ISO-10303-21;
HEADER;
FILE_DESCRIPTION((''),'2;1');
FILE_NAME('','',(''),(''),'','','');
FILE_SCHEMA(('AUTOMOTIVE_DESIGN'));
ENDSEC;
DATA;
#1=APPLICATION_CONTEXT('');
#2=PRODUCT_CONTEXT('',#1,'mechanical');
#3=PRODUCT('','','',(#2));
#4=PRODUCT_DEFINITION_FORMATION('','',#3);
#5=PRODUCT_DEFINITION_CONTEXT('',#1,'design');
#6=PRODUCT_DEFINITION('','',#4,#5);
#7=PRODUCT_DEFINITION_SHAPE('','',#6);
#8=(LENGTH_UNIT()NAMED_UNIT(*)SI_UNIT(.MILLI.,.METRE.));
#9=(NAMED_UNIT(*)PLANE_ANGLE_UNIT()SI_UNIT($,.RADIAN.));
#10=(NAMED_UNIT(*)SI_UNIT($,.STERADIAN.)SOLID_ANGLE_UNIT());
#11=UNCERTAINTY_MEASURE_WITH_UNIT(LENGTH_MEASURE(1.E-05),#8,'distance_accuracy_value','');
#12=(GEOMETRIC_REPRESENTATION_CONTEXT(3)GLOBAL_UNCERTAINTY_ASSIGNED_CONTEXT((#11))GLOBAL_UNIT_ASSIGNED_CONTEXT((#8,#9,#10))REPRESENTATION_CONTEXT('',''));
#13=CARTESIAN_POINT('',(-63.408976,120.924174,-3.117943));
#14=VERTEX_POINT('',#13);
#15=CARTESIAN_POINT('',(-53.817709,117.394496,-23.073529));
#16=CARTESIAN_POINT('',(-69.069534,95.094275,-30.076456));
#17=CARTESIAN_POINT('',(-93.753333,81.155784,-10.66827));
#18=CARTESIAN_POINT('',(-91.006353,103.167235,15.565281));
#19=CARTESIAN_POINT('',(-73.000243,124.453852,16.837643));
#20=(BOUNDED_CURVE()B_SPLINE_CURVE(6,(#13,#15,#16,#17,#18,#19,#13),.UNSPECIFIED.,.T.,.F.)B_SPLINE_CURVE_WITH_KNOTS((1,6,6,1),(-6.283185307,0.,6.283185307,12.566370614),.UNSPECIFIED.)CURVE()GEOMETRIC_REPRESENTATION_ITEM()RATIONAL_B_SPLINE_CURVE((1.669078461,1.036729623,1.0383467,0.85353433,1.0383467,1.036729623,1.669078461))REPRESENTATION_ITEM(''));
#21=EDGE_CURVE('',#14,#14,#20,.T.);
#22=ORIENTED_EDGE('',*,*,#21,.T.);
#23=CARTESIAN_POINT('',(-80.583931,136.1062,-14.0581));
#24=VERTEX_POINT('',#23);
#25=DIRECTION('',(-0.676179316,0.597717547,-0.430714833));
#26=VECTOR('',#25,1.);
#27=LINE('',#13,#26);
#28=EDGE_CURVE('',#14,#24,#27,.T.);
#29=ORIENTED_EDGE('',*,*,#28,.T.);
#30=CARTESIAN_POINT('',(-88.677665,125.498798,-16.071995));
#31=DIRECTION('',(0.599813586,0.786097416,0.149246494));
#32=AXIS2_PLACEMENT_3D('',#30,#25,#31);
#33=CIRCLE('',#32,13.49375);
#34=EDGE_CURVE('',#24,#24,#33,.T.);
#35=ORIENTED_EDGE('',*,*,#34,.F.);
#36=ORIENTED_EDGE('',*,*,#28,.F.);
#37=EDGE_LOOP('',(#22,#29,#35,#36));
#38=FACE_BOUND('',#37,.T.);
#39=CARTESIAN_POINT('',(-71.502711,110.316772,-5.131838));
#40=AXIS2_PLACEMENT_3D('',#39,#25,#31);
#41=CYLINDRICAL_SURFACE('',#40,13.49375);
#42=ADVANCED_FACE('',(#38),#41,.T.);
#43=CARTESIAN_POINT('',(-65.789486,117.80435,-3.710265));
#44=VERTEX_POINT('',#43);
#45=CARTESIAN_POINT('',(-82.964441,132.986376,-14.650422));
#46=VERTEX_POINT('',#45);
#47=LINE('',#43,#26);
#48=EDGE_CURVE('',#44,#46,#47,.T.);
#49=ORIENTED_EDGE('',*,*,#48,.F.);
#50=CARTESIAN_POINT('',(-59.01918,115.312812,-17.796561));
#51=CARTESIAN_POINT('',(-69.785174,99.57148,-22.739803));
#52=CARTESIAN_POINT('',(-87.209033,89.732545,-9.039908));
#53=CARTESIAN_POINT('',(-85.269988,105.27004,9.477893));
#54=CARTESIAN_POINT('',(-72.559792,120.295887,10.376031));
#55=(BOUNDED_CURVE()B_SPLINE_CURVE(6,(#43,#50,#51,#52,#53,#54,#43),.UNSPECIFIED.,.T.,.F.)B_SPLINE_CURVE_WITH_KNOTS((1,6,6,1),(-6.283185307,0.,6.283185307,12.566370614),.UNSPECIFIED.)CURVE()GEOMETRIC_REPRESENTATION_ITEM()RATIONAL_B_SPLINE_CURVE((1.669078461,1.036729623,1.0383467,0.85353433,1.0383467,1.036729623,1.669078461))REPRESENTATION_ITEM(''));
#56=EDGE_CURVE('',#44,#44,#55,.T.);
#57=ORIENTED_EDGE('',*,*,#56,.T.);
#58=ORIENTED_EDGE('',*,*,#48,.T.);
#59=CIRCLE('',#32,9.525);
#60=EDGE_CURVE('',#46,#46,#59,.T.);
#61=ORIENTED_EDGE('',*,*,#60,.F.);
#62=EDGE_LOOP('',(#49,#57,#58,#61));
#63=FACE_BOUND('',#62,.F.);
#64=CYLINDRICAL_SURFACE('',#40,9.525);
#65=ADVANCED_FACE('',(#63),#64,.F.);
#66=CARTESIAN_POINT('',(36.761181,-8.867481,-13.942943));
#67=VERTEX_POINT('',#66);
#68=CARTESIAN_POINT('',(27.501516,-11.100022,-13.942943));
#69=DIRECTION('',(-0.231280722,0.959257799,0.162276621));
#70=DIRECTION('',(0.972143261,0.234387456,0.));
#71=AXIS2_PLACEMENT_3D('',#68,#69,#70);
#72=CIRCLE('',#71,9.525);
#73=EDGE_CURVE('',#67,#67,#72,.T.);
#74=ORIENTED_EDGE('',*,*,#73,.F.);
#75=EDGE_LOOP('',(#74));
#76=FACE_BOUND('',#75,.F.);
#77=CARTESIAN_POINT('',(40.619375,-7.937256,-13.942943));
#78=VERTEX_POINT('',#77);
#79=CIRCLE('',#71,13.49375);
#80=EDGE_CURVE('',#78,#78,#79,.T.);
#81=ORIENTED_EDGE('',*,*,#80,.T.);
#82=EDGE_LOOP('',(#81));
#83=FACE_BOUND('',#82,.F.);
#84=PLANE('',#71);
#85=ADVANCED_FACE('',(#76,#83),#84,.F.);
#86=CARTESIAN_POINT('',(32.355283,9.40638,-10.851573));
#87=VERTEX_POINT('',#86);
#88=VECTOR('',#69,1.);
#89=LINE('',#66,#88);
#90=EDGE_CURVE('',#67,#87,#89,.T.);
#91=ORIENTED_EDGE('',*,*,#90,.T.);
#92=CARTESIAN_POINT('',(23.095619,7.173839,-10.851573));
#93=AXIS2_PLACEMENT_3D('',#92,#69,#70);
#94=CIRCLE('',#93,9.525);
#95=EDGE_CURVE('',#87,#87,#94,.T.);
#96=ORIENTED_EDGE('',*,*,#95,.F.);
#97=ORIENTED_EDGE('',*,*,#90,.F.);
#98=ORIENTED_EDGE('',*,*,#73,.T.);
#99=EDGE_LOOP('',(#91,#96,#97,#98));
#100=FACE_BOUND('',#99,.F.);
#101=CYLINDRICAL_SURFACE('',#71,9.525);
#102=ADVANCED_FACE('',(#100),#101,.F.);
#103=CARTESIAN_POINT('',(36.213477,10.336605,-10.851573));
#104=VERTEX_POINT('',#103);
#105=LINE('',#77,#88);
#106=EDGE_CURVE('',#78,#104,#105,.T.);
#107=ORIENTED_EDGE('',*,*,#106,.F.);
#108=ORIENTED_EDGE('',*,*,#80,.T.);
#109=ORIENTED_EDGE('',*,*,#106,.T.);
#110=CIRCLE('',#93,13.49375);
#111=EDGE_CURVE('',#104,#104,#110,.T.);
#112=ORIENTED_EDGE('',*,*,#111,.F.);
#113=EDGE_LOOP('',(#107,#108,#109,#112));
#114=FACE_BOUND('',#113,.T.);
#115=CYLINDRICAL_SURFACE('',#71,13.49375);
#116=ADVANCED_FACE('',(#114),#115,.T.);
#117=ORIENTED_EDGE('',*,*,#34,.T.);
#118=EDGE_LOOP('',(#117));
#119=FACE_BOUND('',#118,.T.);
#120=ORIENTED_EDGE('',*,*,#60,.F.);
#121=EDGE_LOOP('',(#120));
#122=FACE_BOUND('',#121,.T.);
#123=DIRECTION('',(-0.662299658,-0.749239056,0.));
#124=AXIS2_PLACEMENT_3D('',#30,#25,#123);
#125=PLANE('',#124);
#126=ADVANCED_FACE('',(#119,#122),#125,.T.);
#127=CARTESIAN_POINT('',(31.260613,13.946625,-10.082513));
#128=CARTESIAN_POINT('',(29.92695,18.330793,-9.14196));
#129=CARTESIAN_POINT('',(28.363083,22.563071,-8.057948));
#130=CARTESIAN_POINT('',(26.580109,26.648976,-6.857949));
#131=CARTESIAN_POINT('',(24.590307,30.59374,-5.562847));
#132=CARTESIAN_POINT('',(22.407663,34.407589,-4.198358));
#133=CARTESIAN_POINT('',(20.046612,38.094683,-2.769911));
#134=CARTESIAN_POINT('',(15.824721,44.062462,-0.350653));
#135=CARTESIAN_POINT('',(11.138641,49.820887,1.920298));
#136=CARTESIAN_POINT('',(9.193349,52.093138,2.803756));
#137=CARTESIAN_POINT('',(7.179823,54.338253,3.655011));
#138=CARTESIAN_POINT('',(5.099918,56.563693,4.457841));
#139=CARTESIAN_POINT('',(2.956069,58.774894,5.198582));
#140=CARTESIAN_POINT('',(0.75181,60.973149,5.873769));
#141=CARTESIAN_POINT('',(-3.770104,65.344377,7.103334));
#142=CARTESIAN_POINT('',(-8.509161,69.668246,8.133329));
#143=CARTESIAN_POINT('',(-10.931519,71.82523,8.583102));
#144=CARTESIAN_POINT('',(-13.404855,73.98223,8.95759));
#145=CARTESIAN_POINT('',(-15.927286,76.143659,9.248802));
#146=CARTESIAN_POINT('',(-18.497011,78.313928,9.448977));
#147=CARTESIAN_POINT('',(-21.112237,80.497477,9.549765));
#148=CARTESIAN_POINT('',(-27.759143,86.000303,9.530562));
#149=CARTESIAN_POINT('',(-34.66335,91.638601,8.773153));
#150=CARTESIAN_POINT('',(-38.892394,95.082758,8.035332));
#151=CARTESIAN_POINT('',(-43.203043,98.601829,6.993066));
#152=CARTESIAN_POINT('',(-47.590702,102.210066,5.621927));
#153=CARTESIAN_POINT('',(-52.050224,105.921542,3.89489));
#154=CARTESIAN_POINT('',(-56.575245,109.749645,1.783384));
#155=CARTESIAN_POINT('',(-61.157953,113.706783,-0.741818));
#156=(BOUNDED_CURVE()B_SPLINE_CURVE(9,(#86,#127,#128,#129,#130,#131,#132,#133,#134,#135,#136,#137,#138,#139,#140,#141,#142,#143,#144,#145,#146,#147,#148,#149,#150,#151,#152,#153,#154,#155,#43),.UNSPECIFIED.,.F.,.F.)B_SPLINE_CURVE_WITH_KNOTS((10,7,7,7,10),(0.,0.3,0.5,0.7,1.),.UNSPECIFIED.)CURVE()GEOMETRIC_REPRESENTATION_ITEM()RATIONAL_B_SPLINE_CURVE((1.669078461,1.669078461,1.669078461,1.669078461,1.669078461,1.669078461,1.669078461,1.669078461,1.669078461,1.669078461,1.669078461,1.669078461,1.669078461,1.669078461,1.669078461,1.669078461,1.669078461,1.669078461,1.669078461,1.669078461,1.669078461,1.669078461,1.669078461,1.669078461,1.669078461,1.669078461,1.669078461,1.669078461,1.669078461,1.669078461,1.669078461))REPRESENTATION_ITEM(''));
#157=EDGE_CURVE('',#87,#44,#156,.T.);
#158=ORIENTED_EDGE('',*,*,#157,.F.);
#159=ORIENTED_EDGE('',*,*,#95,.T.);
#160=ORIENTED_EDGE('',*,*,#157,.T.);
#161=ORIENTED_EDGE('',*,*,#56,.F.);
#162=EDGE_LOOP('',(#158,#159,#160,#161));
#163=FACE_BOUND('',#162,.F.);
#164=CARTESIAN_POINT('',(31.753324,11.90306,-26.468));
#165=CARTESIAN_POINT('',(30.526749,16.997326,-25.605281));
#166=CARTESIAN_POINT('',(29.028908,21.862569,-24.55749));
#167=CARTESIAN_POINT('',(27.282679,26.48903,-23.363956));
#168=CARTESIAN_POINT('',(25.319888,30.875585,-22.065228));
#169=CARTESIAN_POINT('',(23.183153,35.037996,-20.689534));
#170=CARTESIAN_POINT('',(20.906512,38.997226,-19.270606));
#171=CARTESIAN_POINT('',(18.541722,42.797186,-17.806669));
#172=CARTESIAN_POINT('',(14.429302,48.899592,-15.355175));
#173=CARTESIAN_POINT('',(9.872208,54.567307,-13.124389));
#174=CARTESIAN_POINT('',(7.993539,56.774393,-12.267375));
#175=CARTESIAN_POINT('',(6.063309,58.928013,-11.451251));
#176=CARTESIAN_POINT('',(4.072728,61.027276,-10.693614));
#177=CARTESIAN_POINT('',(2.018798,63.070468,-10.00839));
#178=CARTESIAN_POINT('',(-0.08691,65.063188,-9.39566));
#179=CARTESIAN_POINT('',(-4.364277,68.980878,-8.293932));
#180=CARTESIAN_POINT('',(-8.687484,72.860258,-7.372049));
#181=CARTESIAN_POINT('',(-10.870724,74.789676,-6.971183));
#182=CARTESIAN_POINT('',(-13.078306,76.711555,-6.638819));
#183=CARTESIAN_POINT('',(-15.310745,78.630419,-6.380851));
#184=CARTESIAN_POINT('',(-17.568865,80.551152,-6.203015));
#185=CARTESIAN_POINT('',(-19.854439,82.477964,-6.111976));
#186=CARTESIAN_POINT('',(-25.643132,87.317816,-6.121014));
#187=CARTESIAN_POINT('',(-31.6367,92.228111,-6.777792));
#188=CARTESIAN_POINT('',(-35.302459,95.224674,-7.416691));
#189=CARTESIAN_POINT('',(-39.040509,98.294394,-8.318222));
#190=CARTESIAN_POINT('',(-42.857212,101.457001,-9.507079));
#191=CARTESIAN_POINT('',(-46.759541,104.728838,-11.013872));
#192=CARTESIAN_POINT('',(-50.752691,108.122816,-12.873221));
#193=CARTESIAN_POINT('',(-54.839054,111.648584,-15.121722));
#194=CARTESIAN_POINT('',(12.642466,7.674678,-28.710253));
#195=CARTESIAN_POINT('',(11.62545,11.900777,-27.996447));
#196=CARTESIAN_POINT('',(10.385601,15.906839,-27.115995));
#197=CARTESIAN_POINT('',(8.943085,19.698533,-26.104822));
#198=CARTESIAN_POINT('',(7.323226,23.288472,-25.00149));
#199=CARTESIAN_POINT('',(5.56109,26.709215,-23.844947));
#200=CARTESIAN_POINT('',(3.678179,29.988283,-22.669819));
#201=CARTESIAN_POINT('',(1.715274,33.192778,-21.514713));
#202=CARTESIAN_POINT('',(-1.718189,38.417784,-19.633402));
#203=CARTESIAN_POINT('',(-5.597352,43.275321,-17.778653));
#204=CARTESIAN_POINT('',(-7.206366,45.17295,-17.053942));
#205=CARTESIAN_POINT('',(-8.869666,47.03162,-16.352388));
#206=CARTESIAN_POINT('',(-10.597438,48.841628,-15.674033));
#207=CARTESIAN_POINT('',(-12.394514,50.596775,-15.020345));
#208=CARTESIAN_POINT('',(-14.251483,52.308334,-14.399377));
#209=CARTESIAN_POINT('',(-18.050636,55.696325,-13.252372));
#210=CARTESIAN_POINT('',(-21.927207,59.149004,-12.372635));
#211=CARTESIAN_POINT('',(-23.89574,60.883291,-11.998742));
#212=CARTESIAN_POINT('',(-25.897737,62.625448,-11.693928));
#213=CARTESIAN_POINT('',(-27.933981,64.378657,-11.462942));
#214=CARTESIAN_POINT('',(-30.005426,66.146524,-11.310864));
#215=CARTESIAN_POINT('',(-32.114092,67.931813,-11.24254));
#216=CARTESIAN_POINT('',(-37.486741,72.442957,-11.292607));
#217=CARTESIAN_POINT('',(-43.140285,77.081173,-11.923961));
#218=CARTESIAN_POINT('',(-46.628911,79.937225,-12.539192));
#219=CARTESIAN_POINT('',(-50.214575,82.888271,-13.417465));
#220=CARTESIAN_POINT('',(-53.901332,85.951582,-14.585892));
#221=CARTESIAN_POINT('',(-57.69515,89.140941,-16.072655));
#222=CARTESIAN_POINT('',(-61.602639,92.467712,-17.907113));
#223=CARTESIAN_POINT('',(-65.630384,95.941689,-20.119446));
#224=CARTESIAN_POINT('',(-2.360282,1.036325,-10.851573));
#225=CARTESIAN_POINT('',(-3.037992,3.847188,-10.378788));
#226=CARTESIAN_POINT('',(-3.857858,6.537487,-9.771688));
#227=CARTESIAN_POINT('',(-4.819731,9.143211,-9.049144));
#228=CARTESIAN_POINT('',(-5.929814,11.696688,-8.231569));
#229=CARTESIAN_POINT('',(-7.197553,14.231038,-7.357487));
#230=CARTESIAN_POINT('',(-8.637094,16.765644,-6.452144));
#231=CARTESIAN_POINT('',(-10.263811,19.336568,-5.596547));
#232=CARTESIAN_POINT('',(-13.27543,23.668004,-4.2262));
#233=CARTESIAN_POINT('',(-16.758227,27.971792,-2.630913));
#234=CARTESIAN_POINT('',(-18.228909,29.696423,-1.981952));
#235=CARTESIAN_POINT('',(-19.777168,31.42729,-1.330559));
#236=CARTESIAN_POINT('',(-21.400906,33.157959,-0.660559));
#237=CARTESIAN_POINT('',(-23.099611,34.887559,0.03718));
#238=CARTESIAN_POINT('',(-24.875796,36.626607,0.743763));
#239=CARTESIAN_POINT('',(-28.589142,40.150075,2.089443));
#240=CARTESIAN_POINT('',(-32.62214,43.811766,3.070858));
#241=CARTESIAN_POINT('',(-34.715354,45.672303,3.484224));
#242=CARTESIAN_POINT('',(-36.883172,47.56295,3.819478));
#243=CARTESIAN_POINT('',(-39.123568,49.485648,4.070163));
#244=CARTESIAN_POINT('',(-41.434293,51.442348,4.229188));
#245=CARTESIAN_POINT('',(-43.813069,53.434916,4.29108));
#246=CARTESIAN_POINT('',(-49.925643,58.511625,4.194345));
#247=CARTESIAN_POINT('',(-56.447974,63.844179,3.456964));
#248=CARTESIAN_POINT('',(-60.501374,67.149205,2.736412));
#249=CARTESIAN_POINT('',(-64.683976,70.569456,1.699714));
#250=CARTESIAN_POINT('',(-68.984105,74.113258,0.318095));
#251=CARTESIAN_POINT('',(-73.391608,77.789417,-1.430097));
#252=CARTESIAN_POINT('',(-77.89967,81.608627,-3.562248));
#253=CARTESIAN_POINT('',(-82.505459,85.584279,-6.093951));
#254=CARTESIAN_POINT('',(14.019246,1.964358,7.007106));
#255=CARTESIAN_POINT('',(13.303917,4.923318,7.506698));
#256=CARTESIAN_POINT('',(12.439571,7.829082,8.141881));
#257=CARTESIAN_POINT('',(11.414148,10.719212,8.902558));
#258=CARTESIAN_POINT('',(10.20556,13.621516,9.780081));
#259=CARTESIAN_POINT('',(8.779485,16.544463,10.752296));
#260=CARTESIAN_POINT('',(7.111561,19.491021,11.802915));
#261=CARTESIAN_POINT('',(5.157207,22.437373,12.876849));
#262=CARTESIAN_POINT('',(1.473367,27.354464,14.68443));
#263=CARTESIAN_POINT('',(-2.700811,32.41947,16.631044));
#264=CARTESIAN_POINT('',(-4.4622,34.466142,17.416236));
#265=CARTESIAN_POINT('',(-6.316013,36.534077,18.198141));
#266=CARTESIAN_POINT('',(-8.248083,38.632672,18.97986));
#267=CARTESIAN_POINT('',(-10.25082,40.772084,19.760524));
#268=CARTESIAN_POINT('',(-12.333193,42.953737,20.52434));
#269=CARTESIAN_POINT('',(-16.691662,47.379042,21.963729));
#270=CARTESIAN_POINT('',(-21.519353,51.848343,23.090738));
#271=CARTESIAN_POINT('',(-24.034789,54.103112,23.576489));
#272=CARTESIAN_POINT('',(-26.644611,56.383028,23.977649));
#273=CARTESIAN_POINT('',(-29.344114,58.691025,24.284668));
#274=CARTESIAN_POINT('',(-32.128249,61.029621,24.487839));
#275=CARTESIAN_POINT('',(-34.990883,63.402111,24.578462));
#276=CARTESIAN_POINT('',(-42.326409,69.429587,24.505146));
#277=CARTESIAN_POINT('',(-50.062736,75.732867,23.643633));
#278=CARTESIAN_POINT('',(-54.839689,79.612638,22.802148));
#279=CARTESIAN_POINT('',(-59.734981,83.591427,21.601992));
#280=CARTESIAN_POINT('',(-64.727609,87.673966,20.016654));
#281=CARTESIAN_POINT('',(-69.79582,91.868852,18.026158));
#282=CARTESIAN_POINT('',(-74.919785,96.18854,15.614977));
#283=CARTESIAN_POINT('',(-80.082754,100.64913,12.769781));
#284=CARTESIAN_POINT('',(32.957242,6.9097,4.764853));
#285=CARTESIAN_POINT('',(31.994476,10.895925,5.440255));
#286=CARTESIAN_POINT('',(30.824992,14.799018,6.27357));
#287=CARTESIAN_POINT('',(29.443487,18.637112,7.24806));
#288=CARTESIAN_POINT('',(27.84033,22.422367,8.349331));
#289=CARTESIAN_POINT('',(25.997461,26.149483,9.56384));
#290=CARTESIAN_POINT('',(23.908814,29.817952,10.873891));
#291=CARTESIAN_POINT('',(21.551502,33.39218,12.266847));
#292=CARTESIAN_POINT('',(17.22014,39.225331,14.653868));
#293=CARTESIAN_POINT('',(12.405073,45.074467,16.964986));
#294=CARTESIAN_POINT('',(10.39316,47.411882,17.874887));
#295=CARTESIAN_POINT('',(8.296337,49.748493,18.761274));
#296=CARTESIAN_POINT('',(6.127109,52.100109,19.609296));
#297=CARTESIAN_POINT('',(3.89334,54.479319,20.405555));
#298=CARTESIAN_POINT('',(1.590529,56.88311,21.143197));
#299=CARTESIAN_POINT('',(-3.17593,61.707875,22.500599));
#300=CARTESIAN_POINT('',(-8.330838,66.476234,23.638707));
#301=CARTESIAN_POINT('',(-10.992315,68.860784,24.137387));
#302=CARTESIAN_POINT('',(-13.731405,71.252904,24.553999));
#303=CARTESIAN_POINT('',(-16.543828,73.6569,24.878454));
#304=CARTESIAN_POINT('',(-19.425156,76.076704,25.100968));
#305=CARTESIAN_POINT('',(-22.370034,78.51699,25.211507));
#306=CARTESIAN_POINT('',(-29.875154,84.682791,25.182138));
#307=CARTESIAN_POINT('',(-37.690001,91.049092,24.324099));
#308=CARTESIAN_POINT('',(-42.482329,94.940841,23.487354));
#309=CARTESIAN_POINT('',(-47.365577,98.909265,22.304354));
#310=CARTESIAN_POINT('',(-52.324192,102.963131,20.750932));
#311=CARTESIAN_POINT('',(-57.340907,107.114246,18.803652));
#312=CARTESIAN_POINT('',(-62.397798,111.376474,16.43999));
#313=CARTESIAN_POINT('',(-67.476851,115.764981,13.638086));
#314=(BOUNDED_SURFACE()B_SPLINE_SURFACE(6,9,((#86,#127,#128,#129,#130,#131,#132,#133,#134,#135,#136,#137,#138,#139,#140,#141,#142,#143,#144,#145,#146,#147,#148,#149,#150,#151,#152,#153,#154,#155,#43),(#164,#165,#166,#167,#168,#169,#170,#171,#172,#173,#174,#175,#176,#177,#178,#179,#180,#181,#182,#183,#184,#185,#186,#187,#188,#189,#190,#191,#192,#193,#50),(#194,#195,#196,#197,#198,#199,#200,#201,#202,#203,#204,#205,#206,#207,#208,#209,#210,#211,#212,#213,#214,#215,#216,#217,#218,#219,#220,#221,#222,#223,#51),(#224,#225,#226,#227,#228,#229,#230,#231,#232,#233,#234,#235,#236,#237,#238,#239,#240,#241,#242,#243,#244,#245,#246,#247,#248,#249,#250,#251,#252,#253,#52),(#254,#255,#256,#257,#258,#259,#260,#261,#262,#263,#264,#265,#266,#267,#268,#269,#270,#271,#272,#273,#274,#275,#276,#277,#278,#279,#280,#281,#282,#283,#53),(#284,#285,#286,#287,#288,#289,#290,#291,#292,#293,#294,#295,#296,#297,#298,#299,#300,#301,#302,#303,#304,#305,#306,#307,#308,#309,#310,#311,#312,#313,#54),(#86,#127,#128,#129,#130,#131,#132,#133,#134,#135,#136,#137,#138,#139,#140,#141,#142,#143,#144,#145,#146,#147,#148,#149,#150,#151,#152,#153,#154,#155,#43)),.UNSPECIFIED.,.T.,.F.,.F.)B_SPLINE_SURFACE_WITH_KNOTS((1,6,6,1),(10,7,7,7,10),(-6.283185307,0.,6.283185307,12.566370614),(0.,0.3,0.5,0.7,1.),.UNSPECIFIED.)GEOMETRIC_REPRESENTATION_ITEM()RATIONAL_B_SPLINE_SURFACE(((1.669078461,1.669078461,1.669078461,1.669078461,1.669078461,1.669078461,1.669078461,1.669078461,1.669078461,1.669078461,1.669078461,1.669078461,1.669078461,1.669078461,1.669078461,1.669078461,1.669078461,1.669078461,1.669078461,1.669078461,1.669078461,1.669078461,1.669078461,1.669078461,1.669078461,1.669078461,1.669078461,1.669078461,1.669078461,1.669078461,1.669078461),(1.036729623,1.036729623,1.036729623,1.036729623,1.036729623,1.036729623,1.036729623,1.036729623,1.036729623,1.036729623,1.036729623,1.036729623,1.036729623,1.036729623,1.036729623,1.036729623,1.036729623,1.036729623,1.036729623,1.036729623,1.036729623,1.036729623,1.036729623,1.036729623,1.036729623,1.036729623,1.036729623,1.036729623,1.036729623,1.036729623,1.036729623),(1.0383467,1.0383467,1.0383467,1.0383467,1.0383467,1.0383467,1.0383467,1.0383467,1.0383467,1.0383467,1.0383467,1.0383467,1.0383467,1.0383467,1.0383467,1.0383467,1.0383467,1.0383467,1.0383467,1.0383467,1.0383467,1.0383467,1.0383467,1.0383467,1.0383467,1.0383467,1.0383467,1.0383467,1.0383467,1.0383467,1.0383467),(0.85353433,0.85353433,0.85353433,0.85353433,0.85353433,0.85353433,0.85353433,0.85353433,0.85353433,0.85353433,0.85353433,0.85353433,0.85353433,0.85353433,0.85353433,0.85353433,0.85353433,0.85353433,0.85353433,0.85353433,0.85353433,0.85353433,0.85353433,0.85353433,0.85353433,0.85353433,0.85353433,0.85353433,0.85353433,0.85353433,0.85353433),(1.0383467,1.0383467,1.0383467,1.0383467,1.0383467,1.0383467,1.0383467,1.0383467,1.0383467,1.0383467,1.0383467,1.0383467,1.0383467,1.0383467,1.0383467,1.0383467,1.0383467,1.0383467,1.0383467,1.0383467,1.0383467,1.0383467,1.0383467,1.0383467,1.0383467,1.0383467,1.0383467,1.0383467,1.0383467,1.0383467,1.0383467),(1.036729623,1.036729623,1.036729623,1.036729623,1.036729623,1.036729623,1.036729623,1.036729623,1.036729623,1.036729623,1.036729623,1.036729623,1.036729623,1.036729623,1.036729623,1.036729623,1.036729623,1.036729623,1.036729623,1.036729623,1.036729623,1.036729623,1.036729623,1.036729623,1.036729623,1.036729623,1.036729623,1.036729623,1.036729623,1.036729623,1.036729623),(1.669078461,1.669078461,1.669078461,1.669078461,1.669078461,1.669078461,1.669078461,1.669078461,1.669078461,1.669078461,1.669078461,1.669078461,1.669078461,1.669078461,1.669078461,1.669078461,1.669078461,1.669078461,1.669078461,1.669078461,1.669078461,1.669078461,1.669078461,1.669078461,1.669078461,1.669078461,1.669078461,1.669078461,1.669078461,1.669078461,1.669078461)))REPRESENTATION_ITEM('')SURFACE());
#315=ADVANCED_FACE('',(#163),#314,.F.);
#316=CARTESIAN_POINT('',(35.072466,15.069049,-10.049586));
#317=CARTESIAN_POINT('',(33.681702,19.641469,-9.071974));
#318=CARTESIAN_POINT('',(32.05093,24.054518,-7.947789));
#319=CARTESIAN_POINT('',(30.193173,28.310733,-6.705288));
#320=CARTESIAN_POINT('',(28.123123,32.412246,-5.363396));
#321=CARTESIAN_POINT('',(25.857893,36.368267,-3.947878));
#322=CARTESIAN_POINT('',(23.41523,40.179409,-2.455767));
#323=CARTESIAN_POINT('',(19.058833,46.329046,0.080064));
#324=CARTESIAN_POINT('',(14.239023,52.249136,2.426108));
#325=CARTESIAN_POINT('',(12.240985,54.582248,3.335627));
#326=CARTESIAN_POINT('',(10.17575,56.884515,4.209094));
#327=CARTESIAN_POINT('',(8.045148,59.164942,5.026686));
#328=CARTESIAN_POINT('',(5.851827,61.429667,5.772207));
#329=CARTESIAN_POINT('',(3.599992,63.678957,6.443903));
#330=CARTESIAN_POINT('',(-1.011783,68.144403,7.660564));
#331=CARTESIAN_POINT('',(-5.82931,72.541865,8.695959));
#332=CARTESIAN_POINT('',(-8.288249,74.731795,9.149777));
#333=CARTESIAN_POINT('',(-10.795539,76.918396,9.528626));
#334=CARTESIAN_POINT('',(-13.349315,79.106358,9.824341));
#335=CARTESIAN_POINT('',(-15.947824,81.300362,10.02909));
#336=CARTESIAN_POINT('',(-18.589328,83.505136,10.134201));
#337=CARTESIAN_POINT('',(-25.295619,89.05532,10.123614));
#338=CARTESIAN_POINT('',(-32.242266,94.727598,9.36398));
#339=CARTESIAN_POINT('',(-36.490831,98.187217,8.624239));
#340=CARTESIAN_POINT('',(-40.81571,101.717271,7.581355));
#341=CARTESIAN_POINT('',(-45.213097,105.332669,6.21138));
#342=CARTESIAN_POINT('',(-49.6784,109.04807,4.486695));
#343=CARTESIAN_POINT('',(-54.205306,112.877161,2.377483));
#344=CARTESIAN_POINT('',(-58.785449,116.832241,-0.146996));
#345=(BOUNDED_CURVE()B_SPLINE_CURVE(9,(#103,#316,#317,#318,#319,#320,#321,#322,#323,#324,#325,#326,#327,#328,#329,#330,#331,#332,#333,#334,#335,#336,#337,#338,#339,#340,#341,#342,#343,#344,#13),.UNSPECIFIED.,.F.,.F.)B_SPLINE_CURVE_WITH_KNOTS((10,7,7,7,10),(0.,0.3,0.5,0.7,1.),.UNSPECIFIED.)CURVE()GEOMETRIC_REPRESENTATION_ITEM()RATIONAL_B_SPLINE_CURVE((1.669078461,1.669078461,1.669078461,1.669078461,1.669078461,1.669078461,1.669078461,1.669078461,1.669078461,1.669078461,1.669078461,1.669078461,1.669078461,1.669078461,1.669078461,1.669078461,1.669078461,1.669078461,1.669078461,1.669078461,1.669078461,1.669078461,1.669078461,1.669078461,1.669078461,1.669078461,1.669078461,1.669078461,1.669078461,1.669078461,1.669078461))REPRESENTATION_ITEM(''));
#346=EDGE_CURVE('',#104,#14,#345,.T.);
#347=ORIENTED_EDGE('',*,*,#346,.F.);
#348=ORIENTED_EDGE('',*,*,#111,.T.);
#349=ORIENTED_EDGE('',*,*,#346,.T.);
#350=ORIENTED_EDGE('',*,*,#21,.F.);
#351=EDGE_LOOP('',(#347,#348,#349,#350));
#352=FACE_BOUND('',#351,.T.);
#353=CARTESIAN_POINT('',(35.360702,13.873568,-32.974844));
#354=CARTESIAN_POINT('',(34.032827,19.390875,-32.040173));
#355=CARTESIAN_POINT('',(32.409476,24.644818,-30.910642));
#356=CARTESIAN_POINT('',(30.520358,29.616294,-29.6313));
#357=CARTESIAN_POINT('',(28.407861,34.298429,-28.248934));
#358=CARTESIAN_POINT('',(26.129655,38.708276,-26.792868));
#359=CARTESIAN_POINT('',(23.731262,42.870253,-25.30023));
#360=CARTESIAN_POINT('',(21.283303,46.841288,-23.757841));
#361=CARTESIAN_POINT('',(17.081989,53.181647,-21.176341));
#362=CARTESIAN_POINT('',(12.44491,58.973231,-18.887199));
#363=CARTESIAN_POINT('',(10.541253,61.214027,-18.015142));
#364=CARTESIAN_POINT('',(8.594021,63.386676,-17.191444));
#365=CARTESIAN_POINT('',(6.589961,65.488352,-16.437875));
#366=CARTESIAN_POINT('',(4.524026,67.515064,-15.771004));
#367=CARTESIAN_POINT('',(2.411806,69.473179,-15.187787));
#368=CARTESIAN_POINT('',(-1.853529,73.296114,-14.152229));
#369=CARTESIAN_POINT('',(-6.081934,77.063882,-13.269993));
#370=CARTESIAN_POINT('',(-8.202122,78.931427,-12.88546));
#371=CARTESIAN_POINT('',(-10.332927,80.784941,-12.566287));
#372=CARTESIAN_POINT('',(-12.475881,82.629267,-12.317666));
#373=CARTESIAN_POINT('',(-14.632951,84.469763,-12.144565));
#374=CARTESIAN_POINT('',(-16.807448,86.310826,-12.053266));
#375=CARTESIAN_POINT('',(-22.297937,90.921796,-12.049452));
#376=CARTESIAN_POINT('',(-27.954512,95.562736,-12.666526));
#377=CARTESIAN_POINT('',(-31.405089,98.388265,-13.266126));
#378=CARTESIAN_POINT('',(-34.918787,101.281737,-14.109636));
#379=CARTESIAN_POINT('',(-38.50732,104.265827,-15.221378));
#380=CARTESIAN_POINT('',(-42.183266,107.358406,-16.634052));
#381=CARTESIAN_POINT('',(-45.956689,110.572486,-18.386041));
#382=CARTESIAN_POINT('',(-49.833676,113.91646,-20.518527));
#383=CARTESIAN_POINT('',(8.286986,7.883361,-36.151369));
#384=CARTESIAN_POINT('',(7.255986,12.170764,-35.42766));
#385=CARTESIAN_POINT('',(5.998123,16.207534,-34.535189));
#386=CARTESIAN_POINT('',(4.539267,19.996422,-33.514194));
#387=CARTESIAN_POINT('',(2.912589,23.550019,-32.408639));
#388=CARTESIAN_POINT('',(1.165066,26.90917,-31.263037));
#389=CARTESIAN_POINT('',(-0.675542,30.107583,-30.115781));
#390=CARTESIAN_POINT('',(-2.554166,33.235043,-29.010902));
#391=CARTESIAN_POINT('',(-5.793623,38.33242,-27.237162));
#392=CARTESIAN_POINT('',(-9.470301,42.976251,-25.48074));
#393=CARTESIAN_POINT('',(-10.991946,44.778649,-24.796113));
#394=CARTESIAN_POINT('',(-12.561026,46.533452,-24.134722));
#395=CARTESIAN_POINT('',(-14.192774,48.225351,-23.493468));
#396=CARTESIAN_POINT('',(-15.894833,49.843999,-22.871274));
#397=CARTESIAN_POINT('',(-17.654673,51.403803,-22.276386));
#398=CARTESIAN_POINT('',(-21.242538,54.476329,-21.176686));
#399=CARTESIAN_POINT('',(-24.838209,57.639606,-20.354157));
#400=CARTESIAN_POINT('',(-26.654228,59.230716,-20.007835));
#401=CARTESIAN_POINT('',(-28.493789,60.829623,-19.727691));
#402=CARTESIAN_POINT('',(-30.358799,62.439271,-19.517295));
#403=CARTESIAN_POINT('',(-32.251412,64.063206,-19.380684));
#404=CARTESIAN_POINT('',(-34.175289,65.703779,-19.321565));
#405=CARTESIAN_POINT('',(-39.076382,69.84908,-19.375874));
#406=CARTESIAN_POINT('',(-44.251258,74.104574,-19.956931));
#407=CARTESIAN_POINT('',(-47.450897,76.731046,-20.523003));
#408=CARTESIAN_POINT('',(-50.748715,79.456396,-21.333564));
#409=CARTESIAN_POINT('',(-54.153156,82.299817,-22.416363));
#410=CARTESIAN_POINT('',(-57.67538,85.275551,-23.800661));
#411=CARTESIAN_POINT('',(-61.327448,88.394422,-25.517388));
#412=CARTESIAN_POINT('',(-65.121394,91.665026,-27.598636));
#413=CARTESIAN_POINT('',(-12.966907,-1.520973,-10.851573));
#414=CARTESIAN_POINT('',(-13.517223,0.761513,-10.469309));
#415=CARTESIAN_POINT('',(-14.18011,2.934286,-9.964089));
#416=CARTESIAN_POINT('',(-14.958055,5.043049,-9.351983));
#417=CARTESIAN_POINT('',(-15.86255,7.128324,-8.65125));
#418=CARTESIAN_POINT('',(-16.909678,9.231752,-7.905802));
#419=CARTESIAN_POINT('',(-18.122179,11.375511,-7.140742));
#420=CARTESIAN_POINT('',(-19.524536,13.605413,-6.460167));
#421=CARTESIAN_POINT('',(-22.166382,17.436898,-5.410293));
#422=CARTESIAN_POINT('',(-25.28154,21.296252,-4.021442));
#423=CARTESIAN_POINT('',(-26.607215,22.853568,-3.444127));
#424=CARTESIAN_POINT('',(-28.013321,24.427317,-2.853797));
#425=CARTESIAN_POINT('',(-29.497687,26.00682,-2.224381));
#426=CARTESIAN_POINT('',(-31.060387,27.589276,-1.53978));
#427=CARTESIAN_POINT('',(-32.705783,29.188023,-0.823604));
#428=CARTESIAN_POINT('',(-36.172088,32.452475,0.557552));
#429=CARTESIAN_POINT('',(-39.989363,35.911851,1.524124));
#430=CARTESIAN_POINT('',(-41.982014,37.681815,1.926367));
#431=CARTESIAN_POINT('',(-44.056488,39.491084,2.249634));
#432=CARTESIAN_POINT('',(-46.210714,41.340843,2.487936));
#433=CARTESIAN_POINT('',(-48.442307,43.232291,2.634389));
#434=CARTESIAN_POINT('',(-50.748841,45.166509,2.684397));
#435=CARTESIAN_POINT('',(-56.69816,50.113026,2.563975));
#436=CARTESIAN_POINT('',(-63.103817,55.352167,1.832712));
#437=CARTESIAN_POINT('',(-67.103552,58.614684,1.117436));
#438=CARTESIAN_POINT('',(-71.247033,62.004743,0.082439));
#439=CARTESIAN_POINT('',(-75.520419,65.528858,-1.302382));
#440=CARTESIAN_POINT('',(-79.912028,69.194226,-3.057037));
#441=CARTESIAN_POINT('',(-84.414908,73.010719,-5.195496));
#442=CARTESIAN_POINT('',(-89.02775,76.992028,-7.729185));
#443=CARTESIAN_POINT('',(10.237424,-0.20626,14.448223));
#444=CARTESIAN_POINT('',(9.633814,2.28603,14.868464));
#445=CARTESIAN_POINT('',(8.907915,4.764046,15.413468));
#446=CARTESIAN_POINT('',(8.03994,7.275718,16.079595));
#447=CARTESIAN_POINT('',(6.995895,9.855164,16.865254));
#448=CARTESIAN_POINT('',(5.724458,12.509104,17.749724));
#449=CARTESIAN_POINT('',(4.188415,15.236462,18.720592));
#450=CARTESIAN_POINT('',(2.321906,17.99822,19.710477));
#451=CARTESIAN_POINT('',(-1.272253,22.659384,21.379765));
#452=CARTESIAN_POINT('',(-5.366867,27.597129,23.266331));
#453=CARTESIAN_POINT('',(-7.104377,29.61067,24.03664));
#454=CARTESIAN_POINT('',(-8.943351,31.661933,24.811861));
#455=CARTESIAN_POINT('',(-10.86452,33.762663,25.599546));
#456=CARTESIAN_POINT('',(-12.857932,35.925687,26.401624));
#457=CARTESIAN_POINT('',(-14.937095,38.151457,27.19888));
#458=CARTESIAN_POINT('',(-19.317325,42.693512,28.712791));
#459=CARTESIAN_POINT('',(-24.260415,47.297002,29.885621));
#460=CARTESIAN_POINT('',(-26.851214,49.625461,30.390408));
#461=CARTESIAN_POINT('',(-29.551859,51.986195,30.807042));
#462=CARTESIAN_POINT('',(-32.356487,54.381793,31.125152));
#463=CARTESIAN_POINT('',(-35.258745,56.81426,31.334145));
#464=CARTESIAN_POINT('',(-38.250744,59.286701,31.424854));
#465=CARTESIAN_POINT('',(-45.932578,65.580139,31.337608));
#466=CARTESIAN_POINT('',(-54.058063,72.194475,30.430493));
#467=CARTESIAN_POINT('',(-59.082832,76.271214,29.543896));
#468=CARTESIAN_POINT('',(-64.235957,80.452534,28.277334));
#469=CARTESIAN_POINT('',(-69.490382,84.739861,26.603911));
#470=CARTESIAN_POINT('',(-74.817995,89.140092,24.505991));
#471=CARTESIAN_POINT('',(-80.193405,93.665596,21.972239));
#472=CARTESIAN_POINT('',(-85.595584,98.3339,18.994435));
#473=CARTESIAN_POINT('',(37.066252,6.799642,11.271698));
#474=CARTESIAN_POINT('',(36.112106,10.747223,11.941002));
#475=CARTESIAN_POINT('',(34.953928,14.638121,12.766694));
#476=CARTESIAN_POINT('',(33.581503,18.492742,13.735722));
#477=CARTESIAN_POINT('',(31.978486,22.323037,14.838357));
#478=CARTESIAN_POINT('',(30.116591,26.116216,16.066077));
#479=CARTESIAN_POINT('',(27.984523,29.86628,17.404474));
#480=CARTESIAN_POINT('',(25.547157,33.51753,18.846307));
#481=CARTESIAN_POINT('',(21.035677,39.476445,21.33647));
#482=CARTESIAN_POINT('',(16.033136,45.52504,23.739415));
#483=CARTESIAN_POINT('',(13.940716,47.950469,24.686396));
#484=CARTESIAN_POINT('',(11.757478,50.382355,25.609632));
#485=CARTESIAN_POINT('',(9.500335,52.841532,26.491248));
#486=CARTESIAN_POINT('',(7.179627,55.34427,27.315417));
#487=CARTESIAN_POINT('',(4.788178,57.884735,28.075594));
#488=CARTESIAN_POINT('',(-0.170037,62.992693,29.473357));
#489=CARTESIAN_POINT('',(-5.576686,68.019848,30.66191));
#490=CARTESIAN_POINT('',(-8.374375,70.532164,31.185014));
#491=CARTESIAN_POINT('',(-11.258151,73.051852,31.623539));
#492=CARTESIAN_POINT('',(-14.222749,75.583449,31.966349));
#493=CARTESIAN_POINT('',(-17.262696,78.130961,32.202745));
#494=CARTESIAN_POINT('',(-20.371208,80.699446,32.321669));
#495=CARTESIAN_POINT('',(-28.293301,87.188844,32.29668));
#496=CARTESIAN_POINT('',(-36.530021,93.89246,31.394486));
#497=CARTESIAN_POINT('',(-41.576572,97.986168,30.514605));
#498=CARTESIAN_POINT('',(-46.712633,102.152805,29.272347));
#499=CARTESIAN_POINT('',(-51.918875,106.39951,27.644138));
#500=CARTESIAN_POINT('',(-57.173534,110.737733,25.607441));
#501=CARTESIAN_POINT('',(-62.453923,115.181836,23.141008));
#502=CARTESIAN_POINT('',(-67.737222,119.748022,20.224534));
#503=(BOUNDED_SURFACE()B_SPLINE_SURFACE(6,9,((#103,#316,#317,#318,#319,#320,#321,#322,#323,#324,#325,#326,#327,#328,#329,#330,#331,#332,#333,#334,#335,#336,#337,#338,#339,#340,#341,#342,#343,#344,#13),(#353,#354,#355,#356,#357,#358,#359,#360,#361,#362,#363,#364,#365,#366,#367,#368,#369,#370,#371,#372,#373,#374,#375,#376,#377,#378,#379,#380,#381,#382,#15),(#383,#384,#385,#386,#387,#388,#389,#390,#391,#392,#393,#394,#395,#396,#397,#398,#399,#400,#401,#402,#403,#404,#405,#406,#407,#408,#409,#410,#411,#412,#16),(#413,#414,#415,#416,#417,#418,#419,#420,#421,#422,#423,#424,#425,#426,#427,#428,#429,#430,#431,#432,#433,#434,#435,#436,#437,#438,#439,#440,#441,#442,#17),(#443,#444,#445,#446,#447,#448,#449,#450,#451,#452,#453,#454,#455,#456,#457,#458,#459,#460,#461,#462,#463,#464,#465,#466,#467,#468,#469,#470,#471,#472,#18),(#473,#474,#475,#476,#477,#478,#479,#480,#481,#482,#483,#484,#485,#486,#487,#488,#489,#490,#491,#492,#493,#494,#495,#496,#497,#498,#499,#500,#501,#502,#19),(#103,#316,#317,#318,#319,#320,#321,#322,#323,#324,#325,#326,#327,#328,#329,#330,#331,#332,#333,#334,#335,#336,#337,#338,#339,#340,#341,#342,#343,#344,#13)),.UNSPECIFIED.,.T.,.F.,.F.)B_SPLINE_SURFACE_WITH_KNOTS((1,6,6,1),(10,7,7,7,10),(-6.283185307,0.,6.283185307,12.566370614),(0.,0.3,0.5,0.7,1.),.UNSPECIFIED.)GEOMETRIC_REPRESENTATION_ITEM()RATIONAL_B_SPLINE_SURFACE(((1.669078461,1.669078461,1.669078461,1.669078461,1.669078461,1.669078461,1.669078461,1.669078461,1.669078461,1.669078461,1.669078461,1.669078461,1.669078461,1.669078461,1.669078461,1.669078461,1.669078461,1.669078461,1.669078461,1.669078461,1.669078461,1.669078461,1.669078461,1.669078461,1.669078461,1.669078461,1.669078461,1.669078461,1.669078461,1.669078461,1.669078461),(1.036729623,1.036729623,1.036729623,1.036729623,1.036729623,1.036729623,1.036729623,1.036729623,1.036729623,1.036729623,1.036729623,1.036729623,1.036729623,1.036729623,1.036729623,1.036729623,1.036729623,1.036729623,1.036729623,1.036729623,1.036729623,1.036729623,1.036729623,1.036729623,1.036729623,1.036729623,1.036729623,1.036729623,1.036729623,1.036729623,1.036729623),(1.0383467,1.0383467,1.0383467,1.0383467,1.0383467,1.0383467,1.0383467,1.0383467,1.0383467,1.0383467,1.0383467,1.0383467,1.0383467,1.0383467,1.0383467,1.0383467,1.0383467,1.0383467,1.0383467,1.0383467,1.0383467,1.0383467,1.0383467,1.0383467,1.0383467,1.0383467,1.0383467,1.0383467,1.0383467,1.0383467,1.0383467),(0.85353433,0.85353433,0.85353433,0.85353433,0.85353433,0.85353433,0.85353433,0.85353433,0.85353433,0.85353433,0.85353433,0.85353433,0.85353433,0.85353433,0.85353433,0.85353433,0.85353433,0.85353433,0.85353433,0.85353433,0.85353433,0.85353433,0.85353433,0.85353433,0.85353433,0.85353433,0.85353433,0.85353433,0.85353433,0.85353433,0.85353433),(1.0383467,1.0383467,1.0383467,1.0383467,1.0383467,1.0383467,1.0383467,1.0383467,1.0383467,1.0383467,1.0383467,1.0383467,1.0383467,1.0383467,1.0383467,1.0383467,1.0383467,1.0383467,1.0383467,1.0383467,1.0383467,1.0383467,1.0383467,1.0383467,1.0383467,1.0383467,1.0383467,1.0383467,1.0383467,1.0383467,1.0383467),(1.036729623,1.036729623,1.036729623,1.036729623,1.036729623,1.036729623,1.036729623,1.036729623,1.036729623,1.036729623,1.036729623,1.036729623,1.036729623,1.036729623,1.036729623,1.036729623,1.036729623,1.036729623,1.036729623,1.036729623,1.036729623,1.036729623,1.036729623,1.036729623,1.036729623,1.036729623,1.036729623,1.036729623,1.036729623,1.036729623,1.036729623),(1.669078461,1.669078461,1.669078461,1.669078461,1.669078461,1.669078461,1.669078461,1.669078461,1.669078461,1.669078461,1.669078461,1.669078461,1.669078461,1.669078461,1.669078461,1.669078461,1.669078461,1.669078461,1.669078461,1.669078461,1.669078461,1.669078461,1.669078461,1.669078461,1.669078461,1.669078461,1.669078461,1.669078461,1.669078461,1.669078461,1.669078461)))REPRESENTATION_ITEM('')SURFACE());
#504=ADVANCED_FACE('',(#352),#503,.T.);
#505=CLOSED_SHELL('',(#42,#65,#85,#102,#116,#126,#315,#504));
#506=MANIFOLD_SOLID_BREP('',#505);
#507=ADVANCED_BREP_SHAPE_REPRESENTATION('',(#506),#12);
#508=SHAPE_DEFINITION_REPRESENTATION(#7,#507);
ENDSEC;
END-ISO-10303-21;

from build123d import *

# Parameters (mm, degrees)
SWEEP1_PROFILE_R     = 13.49375
CUT_SWEEP1_PROFILE_R = 9.525


with BuildPart() as part:
    # Sweep1: sweep along a curve in space
    with BuildLine() as sweep1_path:
        Line((27.501516454, -11.100021656, -13.942942833), (23.095618699, 7.173839424, -10.851573197))
        add(Edge.make_bspline(
            [(23.095618699, 7.173839424, -10.851573197), (13.261070206, 47.963522462, -3.951225916), (-24.99522441, 69.205871428, 24.49264735), (-71.502710672, 110.316771936, -5.131837889)],
            knots=[0, 0, 0, 0, 1, 1, 1, 1], degree=3))
        Line((-71.502710672, 110.316771936, -5.131837889), (-88.677665299, 125.498797619, -16.07199464))
    # Sweep1 profile (on start of the path) → Sweep1 (sweep)
    with BuildSketch(Plane(origin=(27.501516454, -11.100021656, -13.942942833), x_dir=(0.9721432612515079, 0.2343874561560038, 0), z_dir=(-0.23128072205980535, 0.9592577994369071, 0.1622766213074379))):
        Circle(SWEEP1_PROFILE_R)
    sweep(path=sweep1_path.line)

    # Cut-Sweep1: sweep along a curve in space
    with BuildLine() as cut_sweep1_path:
        Line((27.501516454, -11.100021656, -13.942942833), (23.095618699, 7.173839424, -10.851573197))
        add(Edge.make_bspline(
            [(23.095618699, 7.173839424, -10.851573197), (13.261070206, 47.963522462, -3.951225916), (-24.99522441, 69.205871428, 24.49264735), (-71.502710672, 110.316771936, -5.131837889)],
            knots=[0, 0, 0, 0, 1, 1, 1, 1], degree=3))
        Line((-71.502710672, 110.316771936, -5.131837889), (-88.677665299, 125.498797619, -16.07199464))
    # Cut-Sweep1 profile (on start of the path) → Cut-Sweep1 (sweep, cut)
    with BuildSketch(Plane(origin=(27.501516454, -11.100021656, -13.942942833), x_dir=(0.9721432612515079, 0.2343874561560038, 0), z_dir=(-0.23128072205980535, 0.9592577994369071, 0.1622766213074379))):
        Circle(CUT_SWEEP1_PROFILE_R)
    sweep(path=cut_sweep1_path.line, mode=Mode.SUBTRACT)


solid = part.part
